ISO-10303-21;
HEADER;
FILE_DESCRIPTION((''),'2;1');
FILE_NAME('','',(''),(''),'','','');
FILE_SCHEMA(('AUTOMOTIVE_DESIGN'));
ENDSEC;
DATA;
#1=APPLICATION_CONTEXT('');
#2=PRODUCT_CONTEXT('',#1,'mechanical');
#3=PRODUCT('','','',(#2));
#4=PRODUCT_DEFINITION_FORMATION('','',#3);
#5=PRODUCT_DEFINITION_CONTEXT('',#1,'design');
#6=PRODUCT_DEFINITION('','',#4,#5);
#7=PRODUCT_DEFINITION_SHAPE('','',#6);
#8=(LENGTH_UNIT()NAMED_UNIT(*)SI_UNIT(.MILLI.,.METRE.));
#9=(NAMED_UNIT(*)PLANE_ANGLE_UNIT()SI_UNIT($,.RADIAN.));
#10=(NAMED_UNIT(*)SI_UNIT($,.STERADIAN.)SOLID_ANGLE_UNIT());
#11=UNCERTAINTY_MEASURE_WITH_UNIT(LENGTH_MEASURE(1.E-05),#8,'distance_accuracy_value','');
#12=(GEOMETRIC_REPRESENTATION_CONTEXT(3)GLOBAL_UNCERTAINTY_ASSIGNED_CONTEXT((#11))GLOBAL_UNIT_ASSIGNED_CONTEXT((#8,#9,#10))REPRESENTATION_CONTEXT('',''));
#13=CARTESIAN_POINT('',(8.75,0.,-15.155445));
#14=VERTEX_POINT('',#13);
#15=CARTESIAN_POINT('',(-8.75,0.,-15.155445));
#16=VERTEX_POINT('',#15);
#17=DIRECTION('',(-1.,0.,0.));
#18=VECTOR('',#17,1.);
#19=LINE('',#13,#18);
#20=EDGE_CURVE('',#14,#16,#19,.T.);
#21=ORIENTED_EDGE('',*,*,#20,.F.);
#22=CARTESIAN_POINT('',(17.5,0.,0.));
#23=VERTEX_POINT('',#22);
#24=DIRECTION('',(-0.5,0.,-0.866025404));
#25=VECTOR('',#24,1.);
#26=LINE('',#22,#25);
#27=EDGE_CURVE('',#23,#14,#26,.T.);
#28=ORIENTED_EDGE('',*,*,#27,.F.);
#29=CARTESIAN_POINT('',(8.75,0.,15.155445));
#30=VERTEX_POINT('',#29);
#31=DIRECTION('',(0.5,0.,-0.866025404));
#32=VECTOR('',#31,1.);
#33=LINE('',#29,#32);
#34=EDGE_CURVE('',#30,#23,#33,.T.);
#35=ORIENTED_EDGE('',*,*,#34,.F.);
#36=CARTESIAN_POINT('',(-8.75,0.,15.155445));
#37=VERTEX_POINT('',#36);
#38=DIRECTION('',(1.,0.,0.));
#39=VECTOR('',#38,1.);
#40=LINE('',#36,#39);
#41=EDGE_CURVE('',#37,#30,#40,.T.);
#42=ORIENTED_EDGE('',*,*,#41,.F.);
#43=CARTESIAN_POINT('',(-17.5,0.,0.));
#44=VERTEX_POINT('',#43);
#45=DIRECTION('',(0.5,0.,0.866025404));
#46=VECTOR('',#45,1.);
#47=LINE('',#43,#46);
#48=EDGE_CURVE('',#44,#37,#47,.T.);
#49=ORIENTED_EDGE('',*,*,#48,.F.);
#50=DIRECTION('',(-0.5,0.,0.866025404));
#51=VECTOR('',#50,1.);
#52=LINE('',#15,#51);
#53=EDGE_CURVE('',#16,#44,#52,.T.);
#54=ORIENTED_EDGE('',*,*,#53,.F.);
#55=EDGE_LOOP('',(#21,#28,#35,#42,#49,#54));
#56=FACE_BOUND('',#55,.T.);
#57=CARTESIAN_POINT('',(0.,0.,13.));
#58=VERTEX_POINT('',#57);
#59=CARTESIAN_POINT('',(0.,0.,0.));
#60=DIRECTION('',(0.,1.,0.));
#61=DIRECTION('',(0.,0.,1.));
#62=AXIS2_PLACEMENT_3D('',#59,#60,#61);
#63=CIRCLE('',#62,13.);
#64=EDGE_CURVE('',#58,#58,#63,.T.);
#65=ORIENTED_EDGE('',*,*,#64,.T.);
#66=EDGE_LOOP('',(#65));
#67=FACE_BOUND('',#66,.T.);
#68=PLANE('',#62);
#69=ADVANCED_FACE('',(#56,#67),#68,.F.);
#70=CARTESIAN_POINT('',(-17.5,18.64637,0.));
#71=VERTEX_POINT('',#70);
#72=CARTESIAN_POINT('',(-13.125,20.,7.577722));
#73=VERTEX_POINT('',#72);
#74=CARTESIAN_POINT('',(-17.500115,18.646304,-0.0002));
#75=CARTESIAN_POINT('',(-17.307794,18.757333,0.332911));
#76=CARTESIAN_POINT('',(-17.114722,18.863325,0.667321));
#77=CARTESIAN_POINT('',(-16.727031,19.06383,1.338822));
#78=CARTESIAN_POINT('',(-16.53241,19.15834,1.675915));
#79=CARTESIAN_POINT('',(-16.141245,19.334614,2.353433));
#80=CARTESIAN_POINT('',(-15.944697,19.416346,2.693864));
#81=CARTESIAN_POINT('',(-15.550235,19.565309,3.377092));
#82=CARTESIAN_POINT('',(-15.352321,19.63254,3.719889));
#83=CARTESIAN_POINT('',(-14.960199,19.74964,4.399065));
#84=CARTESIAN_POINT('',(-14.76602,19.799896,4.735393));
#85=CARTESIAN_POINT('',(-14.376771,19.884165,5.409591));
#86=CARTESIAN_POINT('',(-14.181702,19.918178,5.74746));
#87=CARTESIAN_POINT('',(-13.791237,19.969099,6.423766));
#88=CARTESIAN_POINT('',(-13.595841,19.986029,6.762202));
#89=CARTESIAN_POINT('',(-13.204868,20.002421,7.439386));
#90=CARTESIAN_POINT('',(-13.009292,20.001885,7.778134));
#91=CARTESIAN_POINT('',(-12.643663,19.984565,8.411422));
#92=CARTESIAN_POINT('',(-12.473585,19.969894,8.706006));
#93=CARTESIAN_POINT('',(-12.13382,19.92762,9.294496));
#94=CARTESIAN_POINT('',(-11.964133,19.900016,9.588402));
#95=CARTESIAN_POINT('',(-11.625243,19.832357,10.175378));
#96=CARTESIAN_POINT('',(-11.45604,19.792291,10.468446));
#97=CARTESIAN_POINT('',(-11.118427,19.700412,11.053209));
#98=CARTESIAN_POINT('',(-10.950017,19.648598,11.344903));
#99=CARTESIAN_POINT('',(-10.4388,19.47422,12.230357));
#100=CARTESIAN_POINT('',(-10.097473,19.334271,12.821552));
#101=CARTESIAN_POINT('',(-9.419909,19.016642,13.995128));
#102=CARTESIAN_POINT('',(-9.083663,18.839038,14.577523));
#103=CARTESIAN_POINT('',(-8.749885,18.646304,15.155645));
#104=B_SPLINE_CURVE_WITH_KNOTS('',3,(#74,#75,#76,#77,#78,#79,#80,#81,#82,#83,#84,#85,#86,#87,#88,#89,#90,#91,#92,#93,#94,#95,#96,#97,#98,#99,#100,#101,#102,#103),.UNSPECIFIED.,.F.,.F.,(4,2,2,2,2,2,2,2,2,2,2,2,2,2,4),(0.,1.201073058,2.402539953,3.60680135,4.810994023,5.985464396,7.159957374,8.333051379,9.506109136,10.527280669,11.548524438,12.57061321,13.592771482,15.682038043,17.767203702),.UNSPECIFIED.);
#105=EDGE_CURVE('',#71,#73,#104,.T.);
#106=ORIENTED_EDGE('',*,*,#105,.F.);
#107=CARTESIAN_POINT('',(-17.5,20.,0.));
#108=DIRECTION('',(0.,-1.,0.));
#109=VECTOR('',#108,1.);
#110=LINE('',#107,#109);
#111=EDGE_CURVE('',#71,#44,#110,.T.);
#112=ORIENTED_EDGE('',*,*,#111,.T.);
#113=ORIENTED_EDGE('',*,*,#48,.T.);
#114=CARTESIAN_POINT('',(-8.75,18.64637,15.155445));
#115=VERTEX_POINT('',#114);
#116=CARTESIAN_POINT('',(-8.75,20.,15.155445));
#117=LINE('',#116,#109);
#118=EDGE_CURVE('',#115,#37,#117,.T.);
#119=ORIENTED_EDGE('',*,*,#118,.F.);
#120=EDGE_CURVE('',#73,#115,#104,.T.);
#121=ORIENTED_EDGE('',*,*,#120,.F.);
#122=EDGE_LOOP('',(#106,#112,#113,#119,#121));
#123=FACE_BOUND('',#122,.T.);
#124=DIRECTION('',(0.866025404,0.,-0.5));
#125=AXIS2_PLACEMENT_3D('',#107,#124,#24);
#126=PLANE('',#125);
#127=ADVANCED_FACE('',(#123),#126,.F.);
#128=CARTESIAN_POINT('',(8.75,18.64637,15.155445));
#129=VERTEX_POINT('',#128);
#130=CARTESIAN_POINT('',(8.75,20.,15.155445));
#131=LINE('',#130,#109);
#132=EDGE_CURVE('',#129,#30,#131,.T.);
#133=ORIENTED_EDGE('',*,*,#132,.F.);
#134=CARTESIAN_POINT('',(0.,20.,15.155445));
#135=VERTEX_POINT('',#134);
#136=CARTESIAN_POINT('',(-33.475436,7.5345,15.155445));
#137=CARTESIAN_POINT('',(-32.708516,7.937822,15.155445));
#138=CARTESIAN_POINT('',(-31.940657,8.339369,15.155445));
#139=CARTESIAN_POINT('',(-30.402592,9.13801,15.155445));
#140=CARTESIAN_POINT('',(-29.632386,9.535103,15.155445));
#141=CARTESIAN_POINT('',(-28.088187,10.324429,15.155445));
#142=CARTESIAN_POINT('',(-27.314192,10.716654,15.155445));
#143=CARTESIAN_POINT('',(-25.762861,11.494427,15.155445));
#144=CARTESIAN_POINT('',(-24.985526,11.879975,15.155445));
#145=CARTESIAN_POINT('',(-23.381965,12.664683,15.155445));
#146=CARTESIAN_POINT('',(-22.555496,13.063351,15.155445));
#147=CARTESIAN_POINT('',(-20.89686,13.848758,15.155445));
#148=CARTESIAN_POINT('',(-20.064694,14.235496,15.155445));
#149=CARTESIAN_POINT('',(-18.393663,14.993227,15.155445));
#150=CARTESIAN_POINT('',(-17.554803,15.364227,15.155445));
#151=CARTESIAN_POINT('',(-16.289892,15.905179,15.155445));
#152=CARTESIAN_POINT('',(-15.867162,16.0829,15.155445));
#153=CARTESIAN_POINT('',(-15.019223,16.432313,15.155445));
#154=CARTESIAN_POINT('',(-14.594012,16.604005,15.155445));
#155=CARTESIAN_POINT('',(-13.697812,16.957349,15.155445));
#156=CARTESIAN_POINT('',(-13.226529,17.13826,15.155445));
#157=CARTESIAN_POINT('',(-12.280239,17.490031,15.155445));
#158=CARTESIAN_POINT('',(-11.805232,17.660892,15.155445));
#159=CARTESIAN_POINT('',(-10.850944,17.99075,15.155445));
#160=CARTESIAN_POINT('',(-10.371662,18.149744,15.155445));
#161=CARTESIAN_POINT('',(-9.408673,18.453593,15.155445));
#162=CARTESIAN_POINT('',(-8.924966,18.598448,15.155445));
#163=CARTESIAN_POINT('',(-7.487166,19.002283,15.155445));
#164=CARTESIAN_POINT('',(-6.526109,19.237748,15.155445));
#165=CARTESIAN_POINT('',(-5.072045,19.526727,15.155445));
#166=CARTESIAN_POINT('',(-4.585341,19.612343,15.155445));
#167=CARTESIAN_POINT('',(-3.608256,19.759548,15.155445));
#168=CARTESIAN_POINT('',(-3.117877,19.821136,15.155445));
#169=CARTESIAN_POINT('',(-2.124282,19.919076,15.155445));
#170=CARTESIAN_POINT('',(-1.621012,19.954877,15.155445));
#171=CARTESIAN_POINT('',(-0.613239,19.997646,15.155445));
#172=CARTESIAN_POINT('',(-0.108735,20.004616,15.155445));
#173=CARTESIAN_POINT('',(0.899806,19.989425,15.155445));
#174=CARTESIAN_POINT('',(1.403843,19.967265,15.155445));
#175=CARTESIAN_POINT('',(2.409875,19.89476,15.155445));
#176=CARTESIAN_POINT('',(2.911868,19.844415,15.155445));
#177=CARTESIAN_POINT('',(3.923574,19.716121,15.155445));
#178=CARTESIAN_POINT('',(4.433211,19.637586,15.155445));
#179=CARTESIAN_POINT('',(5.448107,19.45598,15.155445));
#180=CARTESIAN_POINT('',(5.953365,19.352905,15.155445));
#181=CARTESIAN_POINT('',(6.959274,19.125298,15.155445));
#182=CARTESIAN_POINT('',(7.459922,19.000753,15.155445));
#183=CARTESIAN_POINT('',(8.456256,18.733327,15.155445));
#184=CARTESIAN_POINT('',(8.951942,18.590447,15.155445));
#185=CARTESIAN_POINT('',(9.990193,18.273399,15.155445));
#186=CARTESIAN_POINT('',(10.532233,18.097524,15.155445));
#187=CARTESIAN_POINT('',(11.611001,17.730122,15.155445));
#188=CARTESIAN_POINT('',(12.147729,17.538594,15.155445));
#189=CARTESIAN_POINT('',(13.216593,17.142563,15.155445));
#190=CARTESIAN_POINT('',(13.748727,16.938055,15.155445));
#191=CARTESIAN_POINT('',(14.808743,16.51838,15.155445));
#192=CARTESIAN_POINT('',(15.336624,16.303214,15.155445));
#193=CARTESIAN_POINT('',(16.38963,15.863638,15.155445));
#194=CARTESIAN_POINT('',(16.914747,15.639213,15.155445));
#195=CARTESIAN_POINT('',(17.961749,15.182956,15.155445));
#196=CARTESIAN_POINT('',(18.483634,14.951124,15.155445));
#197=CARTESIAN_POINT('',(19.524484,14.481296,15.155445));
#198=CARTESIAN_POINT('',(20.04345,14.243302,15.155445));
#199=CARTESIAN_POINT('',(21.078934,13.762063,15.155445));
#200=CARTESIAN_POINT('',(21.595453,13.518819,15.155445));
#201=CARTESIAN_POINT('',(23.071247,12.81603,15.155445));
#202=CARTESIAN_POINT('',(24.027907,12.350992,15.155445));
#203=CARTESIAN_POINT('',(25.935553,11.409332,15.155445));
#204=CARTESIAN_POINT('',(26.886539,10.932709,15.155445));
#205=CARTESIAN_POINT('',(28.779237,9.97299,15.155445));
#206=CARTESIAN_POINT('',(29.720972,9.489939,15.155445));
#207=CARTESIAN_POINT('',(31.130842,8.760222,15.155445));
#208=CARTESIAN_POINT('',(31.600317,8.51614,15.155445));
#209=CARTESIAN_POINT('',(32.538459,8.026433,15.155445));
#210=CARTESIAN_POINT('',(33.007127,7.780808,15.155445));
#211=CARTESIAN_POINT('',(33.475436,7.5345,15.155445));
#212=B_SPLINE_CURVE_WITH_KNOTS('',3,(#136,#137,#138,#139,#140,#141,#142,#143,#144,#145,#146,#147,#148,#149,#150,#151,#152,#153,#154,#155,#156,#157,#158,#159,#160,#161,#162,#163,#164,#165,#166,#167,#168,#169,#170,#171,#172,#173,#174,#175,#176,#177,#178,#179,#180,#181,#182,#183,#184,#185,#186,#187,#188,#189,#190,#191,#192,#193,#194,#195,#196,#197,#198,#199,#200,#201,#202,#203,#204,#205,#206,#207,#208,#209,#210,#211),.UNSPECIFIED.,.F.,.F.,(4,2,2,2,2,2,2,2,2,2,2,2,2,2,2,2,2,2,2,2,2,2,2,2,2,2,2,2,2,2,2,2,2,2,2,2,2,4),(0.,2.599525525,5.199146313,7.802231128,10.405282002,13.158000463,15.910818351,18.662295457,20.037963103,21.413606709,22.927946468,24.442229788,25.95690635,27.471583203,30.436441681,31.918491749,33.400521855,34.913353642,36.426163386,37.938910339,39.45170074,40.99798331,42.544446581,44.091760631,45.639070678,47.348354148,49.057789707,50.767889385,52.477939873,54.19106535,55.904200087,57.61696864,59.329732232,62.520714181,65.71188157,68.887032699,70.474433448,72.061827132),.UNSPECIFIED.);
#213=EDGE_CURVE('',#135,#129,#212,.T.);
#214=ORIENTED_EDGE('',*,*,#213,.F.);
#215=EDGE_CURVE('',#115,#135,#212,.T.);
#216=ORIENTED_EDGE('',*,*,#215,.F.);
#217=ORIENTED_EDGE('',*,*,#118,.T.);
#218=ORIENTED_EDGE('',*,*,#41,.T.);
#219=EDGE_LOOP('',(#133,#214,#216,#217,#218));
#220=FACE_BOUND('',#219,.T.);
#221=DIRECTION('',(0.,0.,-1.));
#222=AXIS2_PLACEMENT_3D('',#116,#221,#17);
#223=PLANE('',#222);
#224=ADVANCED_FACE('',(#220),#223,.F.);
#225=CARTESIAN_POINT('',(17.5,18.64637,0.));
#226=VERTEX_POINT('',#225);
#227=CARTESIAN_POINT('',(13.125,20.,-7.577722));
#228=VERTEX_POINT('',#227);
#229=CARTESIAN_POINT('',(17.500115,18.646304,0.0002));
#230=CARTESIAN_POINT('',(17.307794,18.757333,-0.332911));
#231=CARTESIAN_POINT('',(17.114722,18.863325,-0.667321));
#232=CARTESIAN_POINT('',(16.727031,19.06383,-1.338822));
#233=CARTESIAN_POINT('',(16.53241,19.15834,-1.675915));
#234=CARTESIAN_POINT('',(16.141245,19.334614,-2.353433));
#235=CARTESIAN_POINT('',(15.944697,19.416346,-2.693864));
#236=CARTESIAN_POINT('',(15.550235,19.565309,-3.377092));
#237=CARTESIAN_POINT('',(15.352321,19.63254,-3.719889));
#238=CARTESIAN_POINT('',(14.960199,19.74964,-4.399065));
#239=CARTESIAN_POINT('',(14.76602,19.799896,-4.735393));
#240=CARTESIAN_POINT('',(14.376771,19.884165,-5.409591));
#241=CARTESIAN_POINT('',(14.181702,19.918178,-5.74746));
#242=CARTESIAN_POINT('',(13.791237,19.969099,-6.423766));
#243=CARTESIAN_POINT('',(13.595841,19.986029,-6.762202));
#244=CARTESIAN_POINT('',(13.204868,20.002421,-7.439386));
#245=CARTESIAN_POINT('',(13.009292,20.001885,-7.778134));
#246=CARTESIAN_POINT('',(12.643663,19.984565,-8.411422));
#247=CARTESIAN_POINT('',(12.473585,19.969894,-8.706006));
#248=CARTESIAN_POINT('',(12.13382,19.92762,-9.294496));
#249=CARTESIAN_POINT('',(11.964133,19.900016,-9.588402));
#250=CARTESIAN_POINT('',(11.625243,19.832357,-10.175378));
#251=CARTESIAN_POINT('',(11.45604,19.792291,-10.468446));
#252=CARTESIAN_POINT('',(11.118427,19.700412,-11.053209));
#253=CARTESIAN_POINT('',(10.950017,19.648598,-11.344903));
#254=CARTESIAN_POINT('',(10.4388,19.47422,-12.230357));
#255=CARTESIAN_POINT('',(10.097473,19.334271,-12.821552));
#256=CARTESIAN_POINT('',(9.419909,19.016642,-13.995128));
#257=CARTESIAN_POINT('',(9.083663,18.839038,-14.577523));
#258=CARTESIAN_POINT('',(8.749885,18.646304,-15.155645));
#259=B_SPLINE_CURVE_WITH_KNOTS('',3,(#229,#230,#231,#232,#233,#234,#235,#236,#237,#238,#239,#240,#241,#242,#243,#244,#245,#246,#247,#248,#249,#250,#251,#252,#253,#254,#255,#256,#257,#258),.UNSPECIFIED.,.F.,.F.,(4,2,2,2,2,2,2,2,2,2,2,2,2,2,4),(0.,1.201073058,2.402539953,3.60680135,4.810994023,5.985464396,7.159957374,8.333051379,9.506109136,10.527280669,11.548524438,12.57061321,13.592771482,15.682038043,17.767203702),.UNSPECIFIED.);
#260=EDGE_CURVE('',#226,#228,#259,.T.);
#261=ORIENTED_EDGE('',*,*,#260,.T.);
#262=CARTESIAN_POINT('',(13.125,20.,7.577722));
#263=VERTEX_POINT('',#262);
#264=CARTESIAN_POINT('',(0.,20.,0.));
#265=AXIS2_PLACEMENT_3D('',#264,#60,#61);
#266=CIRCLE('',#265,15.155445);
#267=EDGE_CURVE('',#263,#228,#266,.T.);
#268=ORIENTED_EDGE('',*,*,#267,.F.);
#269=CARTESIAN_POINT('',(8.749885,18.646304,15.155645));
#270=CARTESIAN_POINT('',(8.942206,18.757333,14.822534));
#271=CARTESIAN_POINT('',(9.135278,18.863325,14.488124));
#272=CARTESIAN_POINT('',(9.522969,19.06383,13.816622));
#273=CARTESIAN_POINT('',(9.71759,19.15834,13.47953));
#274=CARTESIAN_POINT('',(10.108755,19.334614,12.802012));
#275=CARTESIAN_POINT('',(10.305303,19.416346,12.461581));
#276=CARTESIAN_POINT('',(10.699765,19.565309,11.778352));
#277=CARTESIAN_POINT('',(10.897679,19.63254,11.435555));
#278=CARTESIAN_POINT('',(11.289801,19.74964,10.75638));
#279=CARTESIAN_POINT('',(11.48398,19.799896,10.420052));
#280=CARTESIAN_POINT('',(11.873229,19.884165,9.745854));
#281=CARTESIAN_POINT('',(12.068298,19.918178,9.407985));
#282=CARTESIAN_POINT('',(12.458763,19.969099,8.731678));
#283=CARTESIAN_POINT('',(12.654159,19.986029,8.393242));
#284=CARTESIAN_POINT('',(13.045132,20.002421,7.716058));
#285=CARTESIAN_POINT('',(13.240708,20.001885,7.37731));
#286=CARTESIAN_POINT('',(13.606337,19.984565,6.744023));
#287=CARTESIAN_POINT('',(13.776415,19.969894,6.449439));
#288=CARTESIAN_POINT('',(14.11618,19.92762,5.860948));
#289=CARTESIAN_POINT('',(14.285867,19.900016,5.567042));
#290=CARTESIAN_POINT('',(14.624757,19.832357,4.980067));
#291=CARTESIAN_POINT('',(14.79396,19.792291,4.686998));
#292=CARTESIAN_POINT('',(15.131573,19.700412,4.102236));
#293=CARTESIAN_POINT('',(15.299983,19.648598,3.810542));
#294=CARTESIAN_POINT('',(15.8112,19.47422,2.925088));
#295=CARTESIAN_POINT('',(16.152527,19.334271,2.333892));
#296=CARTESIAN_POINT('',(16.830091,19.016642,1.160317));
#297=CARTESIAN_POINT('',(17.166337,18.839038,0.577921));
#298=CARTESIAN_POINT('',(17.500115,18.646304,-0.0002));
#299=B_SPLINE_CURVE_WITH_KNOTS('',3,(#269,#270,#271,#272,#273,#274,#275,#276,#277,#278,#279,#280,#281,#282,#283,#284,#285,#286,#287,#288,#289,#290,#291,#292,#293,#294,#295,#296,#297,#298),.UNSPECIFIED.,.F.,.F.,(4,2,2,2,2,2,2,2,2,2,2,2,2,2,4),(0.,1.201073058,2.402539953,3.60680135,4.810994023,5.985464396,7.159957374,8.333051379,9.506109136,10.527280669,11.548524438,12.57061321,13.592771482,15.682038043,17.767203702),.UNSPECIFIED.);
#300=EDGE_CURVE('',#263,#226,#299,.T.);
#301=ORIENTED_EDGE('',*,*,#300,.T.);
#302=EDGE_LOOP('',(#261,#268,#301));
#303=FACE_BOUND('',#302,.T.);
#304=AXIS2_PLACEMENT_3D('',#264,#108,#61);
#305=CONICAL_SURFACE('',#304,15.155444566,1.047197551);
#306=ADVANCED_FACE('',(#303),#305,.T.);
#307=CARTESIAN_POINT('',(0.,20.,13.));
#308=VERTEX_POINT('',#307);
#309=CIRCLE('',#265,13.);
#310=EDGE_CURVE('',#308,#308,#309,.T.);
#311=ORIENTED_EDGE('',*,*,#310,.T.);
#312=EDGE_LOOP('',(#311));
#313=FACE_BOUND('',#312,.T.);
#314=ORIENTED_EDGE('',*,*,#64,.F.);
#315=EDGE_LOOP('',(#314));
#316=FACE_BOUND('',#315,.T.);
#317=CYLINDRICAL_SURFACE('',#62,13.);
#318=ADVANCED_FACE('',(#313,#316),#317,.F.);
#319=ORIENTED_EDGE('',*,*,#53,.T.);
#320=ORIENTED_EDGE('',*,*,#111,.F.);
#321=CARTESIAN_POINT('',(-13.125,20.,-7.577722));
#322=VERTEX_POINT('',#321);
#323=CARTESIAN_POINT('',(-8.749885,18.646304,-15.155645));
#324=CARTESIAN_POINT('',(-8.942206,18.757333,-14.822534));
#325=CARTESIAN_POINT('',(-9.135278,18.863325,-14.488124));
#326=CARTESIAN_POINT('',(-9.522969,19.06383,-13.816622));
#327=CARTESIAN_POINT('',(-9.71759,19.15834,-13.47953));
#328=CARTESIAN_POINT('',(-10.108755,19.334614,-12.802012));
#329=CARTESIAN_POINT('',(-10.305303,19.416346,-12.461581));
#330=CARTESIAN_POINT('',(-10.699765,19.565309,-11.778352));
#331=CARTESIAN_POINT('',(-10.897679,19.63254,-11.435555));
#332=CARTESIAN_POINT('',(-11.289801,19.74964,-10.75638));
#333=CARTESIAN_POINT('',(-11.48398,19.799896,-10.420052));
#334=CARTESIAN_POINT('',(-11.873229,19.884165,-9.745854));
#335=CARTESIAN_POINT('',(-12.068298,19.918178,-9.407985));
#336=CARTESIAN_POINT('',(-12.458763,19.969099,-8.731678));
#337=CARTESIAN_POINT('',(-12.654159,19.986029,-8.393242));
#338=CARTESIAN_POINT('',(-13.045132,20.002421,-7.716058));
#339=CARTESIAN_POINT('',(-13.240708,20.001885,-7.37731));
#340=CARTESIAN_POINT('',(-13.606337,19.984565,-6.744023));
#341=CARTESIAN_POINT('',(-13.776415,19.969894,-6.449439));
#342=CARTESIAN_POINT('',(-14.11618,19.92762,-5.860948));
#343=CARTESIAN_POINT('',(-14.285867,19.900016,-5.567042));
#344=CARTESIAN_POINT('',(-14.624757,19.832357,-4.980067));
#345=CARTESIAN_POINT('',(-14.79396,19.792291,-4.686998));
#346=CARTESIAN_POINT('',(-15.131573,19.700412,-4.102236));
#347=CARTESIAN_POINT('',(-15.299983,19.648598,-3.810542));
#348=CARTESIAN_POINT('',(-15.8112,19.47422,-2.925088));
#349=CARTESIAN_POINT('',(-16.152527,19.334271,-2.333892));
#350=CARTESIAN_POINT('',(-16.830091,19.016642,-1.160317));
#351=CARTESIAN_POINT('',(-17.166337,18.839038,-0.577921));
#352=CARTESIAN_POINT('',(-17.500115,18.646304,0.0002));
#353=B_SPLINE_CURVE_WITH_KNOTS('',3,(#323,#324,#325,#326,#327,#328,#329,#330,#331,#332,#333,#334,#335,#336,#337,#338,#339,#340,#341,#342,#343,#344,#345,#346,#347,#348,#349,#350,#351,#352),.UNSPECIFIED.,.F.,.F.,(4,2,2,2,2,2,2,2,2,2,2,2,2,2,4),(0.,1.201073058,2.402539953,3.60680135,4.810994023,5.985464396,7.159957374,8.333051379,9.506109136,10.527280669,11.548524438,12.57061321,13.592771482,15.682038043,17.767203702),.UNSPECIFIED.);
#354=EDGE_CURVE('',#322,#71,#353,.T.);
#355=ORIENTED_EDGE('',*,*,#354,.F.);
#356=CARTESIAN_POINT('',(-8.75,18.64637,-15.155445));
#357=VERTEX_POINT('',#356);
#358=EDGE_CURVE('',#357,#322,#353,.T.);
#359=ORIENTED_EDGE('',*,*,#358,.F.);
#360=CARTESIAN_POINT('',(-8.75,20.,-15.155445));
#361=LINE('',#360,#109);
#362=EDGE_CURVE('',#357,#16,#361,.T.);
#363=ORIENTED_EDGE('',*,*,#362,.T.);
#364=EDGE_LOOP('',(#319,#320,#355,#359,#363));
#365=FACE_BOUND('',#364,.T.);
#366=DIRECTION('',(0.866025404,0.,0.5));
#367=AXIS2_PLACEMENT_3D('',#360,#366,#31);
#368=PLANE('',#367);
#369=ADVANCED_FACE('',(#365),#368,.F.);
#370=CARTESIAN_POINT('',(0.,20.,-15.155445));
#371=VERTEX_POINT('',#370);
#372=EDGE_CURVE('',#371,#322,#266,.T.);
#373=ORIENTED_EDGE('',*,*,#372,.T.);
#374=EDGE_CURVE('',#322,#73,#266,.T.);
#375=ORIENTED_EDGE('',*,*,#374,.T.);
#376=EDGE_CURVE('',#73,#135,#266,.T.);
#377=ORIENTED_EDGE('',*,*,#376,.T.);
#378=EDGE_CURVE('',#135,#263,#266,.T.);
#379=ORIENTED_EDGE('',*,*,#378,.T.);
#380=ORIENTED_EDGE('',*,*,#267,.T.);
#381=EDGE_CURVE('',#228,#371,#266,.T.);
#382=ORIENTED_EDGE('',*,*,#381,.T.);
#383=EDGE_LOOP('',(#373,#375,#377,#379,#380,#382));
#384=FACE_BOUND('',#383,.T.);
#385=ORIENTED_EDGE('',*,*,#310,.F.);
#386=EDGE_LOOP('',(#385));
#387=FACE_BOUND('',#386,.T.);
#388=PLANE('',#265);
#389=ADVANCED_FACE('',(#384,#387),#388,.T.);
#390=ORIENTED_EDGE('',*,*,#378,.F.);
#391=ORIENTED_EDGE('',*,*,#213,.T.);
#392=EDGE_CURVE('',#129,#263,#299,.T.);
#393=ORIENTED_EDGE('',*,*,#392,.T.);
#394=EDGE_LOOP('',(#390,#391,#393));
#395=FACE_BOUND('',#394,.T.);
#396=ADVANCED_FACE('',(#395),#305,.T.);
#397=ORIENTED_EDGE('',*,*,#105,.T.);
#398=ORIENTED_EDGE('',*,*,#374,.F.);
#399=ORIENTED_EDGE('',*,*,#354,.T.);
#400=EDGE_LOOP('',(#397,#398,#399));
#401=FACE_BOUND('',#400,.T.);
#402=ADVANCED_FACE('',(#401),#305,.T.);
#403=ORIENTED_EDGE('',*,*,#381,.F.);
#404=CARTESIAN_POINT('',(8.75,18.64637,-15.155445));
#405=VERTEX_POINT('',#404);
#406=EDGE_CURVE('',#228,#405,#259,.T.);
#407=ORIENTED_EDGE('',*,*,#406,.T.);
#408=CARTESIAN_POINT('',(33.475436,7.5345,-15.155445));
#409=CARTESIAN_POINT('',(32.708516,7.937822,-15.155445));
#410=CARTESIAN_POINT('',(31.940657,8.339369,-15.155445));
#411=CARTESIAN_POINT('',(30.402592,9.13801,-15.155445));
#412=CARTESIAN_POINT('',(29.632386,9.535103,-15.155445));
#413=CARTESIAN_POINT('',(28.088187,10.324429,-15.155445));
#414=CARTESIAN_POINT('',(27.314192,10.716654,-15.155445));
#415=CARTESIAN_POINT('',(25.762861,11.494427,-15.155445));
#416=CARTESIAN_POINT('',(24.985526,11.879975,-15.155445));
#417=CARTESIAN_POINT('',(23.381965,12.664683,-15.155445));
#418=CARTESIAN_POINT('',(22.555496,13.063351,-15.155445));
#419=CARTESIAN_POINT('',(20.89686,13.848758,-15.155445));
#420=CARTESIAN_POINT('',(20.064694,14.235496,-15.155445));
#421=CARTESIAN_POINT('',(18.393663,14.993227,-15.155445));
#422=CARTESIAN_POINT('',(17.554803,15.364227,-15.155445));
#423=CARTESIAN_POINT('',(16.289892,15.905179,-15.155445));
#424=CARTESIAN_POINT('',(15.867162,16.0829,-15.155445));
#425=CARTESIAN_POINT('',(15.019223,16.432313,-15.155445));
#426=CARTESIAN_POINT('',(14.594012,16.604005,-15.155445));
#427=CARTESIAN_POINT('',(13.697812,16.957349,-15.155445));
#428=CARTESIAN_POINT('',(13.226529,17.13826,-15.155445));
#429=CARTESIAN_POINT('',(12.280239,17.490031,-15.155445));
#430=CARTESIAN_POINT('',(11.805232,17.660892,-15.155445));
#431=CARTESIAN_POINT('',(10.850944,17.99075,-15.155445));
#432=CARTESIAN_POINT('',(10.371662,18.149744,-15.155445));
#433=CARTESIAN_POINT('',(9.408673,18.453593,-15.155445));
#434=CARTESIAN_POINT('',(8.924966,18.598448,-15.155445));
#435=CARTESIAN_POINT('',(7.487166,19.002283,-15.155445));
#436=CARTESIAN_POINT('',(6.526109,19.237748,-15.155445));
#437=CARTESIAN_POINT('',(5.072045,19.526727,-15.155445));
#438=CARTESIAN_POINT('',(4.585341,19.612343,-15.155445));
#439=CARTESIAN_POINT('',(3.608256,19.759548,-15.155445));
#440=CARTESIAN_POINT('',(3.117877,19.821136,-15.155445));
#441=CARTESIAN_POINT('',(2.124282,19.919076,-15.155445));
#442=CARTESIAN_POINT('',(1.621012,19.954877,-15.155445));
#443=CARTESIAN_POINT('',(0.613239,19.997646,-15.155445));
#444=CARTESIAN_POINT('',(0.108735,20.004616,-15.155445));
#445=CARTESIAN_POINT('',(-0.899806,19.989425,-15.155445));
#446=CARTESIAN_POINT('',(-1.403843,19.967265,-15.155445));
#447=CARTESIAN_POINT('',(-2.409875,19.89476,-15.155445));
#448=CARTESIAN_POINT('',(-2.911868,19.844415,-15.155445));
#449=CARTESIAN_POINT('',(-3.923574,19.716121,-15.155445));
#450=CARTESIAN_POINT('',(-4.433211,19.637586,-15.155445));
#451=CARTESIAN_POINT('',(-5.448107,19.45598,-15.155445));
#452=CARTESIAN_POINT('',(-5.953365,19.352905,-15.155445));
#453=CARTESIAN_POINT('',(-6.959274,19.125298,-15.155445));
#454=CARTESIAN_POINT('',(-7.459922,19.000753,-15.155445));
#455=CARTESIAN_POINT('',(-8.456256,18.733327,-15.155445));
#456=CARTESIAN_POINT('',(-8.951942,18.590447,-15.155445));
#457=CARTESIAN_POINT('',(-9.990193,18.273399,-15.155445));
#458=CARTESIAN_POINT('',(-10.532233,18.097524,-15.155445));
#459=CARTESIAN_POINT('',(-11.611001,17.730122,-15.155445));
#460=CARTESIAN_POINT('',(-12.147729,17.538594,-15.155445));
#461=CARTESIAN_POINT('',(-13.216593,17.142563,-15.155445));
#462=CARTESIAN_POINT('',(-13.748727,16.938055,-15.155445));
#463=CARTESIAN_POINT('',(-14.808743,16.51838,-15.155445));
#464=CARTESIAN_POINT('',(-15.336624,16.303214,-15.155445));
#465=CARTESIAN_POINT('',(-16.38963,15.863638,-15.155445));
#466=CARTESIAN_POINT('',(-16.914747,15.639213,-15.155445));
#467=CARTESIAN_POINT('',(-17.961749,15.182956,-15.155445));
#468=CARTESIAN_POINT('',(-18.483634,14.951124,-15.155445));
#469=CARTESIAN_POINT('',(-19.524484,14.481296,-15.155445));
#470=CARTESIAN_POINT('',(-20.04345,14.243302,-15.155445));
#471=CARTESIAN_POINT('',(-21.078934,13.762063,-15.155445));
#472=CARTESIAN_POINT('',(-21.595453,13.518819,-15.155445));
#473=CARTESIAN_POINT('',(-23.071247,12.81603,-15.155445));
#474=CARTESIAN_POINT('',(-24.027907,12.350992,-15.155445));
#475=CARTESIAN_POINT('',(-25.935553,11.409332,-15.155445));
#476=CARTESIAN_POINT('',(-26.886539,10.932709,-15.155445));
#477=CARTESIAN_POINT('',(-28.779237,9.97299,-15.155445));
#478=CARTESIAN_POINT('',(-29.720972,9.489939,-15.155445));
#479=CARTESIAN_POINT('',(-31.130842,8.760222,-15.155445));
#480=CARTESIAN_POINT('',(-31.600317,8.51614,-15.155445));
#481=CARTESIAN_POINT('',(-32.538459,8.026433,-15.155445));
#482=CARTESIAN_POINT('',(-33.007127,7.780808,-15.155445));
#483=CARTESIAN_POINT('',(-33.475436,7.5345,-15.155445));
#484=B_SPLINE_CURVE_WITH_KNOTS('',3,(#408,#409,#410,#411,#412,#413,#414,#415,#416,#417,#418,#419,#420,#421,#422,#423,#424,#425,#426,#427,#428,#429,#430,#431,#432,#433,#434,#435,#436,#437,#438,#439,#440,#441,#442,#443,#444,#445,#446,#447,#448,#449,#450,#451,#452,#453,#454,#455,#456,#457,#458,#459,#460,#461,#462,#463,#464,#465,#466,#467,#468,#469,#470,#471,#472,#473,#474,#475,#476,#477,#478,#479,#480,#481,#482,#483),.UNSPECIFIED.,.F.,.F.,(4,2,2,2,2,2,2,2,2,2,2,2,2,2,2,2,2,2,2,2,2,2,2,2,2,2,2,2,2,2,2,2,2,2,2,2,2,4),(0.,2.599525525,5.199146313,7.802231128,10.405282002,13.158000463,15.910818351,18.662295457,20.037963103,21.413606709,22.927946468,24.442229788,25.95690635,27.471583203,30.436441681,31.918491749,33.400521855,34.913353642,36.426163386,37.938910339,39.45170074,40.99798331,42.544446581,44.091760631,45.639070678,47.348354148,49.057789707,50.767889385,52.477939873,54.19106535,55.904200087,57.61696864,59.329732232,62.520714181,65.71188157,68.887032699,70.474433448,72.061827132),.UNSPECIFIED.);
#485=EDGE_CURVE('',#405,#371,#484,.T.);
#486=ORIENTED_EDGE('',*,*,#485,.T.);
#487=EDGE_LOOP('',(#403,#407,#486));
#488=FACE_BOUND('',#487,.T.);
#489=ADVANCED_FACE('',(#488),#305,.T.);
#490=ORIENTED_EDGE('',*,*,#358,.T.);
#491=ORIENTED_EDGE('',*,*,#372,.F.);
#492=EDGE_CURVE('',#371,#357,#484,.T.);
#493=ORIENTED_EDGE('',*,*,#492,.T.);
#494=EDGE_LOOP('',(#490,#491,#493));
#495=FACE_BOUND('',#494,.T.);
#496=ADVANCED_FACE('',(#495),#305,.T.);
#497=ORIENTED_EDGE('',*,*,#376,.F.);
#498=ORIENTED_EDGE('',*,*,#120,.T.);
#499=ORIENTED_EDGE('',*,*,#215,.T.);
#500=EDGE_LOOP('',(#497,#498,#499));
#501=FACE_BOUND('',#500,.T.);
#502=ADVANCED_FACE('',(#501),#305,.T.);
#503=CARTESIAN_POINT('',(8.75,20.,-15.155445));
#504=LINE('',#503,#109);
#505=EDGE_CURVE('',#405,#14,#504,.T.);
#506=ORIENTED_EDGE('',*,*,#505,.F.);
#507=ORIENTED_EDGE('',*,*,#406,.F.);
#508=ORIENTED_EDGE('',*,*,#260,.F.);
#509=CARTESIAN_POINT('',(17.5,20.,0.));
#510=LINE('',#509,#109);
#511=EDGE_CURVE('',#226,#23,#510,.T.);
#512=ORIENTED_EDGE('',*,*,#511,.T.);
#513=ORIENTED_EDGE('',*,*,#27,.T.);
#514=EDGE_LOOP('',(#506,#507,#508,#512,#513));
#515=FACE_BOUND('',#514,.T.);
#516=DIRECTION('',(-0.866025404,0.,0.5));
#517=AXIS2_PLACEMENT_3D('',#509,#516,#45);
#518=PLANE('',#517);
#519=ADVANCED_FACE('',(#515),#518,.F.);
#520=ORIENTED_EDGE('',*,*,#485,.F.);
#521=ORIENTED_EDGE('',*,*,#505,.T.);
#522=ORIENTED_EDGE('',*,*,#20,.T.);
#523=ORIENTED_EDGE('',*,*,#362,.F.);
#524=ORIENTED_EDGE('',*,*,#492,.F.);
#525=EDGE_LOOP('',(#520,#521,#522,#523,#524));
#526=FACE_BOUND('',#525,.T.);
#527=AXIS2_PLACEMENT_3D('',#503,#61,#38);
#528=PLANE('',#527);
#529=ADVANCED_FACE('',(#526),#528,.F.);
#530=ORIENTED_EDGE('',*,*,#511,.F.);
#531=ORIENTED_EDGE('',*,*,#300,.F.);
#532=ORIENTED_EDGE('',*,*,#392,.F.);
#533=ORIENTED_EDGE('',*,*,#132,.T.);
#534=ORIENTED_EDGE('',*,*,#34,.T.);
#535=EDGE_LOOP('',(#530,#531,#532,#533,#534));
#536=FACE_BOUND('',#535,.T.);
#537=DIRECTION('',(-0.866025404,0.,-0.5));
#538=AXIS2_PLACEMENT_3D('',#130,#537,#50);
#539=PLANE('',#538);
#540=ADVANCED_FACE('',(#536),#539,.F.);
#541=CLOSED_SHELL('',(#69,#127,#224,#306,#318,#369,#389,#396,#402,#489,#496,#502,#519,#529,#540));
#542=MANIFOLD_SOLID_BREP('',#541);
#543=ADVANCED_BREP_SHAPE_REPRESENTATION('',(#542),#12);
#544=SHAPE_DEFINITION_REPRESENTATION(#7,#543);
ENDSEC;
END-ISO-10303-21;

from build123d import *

# Parameters (mm, degrees)
BOSS_EXTRUDE1_DEPTH = 20
SKETCH2_OUTSIDE_W   = 116.37
SKETCH2_OUTSIDE_H   = 111.68
SKETCH2_OUTSIDE_R   = 15.155444566
CUT_EXTRUDE1_DEPTH  = 20
CUT_EXTRUDE1_TAPER  = 60
SKETCH3_R           = 13
CUT_EXTRUDE2_DEPTH  = 21


with BuildPart() as part:
    # Sketch1 → Boss-Extrude1 (new body)
    with BuildSketch(Plane(origin=(0, 0, 0), x_dir=(1, 0, 0), z_dir=(0, 1, 0))):
        Polygon((17.5, 0), (8.75, 15.155444566), (-8.75, 15.155444566), (-17.5, 0), (-8.75, -15.155444566), (8.75, -15.155444566), align=None)
    extrude(amount=BOSS_EXTRUDE1_DEPTH)

    # Sketch2 outside → Cut-Extrude1 (cut)
    with BuildSketch(Plane(origin=(0, 20, 0), x_dir=(1, 0, 0), z_dir=(0, 1, 0))):
        Rectangle(SKETCH2_OUTSIDE_W, SKETCH2_OUTSIDE_H)
        Circle(SKETCH2_OUTSIDE_R, mode=Mode.SUBTRACT)
    extrude(amount=-CUT_EXTRUDE1_DEPTH, taper=CUT_EXTRUDE1_TAPER, mode=Mode.SUBTRACT)

    # Sketch3 → Cut-Extrude2 (cut, through all)
    with BuildSketch(Plane(origin=(0, 20, 0), x_dir=(1, 0, 0), z_dir=(0, 1, 0))):
        Circle(SKETCH3_R)
    extrude(amount=-CUT_EXTRUDE2_DEPTH, mode=Mode.SUBTRACT)


solid = part.part
